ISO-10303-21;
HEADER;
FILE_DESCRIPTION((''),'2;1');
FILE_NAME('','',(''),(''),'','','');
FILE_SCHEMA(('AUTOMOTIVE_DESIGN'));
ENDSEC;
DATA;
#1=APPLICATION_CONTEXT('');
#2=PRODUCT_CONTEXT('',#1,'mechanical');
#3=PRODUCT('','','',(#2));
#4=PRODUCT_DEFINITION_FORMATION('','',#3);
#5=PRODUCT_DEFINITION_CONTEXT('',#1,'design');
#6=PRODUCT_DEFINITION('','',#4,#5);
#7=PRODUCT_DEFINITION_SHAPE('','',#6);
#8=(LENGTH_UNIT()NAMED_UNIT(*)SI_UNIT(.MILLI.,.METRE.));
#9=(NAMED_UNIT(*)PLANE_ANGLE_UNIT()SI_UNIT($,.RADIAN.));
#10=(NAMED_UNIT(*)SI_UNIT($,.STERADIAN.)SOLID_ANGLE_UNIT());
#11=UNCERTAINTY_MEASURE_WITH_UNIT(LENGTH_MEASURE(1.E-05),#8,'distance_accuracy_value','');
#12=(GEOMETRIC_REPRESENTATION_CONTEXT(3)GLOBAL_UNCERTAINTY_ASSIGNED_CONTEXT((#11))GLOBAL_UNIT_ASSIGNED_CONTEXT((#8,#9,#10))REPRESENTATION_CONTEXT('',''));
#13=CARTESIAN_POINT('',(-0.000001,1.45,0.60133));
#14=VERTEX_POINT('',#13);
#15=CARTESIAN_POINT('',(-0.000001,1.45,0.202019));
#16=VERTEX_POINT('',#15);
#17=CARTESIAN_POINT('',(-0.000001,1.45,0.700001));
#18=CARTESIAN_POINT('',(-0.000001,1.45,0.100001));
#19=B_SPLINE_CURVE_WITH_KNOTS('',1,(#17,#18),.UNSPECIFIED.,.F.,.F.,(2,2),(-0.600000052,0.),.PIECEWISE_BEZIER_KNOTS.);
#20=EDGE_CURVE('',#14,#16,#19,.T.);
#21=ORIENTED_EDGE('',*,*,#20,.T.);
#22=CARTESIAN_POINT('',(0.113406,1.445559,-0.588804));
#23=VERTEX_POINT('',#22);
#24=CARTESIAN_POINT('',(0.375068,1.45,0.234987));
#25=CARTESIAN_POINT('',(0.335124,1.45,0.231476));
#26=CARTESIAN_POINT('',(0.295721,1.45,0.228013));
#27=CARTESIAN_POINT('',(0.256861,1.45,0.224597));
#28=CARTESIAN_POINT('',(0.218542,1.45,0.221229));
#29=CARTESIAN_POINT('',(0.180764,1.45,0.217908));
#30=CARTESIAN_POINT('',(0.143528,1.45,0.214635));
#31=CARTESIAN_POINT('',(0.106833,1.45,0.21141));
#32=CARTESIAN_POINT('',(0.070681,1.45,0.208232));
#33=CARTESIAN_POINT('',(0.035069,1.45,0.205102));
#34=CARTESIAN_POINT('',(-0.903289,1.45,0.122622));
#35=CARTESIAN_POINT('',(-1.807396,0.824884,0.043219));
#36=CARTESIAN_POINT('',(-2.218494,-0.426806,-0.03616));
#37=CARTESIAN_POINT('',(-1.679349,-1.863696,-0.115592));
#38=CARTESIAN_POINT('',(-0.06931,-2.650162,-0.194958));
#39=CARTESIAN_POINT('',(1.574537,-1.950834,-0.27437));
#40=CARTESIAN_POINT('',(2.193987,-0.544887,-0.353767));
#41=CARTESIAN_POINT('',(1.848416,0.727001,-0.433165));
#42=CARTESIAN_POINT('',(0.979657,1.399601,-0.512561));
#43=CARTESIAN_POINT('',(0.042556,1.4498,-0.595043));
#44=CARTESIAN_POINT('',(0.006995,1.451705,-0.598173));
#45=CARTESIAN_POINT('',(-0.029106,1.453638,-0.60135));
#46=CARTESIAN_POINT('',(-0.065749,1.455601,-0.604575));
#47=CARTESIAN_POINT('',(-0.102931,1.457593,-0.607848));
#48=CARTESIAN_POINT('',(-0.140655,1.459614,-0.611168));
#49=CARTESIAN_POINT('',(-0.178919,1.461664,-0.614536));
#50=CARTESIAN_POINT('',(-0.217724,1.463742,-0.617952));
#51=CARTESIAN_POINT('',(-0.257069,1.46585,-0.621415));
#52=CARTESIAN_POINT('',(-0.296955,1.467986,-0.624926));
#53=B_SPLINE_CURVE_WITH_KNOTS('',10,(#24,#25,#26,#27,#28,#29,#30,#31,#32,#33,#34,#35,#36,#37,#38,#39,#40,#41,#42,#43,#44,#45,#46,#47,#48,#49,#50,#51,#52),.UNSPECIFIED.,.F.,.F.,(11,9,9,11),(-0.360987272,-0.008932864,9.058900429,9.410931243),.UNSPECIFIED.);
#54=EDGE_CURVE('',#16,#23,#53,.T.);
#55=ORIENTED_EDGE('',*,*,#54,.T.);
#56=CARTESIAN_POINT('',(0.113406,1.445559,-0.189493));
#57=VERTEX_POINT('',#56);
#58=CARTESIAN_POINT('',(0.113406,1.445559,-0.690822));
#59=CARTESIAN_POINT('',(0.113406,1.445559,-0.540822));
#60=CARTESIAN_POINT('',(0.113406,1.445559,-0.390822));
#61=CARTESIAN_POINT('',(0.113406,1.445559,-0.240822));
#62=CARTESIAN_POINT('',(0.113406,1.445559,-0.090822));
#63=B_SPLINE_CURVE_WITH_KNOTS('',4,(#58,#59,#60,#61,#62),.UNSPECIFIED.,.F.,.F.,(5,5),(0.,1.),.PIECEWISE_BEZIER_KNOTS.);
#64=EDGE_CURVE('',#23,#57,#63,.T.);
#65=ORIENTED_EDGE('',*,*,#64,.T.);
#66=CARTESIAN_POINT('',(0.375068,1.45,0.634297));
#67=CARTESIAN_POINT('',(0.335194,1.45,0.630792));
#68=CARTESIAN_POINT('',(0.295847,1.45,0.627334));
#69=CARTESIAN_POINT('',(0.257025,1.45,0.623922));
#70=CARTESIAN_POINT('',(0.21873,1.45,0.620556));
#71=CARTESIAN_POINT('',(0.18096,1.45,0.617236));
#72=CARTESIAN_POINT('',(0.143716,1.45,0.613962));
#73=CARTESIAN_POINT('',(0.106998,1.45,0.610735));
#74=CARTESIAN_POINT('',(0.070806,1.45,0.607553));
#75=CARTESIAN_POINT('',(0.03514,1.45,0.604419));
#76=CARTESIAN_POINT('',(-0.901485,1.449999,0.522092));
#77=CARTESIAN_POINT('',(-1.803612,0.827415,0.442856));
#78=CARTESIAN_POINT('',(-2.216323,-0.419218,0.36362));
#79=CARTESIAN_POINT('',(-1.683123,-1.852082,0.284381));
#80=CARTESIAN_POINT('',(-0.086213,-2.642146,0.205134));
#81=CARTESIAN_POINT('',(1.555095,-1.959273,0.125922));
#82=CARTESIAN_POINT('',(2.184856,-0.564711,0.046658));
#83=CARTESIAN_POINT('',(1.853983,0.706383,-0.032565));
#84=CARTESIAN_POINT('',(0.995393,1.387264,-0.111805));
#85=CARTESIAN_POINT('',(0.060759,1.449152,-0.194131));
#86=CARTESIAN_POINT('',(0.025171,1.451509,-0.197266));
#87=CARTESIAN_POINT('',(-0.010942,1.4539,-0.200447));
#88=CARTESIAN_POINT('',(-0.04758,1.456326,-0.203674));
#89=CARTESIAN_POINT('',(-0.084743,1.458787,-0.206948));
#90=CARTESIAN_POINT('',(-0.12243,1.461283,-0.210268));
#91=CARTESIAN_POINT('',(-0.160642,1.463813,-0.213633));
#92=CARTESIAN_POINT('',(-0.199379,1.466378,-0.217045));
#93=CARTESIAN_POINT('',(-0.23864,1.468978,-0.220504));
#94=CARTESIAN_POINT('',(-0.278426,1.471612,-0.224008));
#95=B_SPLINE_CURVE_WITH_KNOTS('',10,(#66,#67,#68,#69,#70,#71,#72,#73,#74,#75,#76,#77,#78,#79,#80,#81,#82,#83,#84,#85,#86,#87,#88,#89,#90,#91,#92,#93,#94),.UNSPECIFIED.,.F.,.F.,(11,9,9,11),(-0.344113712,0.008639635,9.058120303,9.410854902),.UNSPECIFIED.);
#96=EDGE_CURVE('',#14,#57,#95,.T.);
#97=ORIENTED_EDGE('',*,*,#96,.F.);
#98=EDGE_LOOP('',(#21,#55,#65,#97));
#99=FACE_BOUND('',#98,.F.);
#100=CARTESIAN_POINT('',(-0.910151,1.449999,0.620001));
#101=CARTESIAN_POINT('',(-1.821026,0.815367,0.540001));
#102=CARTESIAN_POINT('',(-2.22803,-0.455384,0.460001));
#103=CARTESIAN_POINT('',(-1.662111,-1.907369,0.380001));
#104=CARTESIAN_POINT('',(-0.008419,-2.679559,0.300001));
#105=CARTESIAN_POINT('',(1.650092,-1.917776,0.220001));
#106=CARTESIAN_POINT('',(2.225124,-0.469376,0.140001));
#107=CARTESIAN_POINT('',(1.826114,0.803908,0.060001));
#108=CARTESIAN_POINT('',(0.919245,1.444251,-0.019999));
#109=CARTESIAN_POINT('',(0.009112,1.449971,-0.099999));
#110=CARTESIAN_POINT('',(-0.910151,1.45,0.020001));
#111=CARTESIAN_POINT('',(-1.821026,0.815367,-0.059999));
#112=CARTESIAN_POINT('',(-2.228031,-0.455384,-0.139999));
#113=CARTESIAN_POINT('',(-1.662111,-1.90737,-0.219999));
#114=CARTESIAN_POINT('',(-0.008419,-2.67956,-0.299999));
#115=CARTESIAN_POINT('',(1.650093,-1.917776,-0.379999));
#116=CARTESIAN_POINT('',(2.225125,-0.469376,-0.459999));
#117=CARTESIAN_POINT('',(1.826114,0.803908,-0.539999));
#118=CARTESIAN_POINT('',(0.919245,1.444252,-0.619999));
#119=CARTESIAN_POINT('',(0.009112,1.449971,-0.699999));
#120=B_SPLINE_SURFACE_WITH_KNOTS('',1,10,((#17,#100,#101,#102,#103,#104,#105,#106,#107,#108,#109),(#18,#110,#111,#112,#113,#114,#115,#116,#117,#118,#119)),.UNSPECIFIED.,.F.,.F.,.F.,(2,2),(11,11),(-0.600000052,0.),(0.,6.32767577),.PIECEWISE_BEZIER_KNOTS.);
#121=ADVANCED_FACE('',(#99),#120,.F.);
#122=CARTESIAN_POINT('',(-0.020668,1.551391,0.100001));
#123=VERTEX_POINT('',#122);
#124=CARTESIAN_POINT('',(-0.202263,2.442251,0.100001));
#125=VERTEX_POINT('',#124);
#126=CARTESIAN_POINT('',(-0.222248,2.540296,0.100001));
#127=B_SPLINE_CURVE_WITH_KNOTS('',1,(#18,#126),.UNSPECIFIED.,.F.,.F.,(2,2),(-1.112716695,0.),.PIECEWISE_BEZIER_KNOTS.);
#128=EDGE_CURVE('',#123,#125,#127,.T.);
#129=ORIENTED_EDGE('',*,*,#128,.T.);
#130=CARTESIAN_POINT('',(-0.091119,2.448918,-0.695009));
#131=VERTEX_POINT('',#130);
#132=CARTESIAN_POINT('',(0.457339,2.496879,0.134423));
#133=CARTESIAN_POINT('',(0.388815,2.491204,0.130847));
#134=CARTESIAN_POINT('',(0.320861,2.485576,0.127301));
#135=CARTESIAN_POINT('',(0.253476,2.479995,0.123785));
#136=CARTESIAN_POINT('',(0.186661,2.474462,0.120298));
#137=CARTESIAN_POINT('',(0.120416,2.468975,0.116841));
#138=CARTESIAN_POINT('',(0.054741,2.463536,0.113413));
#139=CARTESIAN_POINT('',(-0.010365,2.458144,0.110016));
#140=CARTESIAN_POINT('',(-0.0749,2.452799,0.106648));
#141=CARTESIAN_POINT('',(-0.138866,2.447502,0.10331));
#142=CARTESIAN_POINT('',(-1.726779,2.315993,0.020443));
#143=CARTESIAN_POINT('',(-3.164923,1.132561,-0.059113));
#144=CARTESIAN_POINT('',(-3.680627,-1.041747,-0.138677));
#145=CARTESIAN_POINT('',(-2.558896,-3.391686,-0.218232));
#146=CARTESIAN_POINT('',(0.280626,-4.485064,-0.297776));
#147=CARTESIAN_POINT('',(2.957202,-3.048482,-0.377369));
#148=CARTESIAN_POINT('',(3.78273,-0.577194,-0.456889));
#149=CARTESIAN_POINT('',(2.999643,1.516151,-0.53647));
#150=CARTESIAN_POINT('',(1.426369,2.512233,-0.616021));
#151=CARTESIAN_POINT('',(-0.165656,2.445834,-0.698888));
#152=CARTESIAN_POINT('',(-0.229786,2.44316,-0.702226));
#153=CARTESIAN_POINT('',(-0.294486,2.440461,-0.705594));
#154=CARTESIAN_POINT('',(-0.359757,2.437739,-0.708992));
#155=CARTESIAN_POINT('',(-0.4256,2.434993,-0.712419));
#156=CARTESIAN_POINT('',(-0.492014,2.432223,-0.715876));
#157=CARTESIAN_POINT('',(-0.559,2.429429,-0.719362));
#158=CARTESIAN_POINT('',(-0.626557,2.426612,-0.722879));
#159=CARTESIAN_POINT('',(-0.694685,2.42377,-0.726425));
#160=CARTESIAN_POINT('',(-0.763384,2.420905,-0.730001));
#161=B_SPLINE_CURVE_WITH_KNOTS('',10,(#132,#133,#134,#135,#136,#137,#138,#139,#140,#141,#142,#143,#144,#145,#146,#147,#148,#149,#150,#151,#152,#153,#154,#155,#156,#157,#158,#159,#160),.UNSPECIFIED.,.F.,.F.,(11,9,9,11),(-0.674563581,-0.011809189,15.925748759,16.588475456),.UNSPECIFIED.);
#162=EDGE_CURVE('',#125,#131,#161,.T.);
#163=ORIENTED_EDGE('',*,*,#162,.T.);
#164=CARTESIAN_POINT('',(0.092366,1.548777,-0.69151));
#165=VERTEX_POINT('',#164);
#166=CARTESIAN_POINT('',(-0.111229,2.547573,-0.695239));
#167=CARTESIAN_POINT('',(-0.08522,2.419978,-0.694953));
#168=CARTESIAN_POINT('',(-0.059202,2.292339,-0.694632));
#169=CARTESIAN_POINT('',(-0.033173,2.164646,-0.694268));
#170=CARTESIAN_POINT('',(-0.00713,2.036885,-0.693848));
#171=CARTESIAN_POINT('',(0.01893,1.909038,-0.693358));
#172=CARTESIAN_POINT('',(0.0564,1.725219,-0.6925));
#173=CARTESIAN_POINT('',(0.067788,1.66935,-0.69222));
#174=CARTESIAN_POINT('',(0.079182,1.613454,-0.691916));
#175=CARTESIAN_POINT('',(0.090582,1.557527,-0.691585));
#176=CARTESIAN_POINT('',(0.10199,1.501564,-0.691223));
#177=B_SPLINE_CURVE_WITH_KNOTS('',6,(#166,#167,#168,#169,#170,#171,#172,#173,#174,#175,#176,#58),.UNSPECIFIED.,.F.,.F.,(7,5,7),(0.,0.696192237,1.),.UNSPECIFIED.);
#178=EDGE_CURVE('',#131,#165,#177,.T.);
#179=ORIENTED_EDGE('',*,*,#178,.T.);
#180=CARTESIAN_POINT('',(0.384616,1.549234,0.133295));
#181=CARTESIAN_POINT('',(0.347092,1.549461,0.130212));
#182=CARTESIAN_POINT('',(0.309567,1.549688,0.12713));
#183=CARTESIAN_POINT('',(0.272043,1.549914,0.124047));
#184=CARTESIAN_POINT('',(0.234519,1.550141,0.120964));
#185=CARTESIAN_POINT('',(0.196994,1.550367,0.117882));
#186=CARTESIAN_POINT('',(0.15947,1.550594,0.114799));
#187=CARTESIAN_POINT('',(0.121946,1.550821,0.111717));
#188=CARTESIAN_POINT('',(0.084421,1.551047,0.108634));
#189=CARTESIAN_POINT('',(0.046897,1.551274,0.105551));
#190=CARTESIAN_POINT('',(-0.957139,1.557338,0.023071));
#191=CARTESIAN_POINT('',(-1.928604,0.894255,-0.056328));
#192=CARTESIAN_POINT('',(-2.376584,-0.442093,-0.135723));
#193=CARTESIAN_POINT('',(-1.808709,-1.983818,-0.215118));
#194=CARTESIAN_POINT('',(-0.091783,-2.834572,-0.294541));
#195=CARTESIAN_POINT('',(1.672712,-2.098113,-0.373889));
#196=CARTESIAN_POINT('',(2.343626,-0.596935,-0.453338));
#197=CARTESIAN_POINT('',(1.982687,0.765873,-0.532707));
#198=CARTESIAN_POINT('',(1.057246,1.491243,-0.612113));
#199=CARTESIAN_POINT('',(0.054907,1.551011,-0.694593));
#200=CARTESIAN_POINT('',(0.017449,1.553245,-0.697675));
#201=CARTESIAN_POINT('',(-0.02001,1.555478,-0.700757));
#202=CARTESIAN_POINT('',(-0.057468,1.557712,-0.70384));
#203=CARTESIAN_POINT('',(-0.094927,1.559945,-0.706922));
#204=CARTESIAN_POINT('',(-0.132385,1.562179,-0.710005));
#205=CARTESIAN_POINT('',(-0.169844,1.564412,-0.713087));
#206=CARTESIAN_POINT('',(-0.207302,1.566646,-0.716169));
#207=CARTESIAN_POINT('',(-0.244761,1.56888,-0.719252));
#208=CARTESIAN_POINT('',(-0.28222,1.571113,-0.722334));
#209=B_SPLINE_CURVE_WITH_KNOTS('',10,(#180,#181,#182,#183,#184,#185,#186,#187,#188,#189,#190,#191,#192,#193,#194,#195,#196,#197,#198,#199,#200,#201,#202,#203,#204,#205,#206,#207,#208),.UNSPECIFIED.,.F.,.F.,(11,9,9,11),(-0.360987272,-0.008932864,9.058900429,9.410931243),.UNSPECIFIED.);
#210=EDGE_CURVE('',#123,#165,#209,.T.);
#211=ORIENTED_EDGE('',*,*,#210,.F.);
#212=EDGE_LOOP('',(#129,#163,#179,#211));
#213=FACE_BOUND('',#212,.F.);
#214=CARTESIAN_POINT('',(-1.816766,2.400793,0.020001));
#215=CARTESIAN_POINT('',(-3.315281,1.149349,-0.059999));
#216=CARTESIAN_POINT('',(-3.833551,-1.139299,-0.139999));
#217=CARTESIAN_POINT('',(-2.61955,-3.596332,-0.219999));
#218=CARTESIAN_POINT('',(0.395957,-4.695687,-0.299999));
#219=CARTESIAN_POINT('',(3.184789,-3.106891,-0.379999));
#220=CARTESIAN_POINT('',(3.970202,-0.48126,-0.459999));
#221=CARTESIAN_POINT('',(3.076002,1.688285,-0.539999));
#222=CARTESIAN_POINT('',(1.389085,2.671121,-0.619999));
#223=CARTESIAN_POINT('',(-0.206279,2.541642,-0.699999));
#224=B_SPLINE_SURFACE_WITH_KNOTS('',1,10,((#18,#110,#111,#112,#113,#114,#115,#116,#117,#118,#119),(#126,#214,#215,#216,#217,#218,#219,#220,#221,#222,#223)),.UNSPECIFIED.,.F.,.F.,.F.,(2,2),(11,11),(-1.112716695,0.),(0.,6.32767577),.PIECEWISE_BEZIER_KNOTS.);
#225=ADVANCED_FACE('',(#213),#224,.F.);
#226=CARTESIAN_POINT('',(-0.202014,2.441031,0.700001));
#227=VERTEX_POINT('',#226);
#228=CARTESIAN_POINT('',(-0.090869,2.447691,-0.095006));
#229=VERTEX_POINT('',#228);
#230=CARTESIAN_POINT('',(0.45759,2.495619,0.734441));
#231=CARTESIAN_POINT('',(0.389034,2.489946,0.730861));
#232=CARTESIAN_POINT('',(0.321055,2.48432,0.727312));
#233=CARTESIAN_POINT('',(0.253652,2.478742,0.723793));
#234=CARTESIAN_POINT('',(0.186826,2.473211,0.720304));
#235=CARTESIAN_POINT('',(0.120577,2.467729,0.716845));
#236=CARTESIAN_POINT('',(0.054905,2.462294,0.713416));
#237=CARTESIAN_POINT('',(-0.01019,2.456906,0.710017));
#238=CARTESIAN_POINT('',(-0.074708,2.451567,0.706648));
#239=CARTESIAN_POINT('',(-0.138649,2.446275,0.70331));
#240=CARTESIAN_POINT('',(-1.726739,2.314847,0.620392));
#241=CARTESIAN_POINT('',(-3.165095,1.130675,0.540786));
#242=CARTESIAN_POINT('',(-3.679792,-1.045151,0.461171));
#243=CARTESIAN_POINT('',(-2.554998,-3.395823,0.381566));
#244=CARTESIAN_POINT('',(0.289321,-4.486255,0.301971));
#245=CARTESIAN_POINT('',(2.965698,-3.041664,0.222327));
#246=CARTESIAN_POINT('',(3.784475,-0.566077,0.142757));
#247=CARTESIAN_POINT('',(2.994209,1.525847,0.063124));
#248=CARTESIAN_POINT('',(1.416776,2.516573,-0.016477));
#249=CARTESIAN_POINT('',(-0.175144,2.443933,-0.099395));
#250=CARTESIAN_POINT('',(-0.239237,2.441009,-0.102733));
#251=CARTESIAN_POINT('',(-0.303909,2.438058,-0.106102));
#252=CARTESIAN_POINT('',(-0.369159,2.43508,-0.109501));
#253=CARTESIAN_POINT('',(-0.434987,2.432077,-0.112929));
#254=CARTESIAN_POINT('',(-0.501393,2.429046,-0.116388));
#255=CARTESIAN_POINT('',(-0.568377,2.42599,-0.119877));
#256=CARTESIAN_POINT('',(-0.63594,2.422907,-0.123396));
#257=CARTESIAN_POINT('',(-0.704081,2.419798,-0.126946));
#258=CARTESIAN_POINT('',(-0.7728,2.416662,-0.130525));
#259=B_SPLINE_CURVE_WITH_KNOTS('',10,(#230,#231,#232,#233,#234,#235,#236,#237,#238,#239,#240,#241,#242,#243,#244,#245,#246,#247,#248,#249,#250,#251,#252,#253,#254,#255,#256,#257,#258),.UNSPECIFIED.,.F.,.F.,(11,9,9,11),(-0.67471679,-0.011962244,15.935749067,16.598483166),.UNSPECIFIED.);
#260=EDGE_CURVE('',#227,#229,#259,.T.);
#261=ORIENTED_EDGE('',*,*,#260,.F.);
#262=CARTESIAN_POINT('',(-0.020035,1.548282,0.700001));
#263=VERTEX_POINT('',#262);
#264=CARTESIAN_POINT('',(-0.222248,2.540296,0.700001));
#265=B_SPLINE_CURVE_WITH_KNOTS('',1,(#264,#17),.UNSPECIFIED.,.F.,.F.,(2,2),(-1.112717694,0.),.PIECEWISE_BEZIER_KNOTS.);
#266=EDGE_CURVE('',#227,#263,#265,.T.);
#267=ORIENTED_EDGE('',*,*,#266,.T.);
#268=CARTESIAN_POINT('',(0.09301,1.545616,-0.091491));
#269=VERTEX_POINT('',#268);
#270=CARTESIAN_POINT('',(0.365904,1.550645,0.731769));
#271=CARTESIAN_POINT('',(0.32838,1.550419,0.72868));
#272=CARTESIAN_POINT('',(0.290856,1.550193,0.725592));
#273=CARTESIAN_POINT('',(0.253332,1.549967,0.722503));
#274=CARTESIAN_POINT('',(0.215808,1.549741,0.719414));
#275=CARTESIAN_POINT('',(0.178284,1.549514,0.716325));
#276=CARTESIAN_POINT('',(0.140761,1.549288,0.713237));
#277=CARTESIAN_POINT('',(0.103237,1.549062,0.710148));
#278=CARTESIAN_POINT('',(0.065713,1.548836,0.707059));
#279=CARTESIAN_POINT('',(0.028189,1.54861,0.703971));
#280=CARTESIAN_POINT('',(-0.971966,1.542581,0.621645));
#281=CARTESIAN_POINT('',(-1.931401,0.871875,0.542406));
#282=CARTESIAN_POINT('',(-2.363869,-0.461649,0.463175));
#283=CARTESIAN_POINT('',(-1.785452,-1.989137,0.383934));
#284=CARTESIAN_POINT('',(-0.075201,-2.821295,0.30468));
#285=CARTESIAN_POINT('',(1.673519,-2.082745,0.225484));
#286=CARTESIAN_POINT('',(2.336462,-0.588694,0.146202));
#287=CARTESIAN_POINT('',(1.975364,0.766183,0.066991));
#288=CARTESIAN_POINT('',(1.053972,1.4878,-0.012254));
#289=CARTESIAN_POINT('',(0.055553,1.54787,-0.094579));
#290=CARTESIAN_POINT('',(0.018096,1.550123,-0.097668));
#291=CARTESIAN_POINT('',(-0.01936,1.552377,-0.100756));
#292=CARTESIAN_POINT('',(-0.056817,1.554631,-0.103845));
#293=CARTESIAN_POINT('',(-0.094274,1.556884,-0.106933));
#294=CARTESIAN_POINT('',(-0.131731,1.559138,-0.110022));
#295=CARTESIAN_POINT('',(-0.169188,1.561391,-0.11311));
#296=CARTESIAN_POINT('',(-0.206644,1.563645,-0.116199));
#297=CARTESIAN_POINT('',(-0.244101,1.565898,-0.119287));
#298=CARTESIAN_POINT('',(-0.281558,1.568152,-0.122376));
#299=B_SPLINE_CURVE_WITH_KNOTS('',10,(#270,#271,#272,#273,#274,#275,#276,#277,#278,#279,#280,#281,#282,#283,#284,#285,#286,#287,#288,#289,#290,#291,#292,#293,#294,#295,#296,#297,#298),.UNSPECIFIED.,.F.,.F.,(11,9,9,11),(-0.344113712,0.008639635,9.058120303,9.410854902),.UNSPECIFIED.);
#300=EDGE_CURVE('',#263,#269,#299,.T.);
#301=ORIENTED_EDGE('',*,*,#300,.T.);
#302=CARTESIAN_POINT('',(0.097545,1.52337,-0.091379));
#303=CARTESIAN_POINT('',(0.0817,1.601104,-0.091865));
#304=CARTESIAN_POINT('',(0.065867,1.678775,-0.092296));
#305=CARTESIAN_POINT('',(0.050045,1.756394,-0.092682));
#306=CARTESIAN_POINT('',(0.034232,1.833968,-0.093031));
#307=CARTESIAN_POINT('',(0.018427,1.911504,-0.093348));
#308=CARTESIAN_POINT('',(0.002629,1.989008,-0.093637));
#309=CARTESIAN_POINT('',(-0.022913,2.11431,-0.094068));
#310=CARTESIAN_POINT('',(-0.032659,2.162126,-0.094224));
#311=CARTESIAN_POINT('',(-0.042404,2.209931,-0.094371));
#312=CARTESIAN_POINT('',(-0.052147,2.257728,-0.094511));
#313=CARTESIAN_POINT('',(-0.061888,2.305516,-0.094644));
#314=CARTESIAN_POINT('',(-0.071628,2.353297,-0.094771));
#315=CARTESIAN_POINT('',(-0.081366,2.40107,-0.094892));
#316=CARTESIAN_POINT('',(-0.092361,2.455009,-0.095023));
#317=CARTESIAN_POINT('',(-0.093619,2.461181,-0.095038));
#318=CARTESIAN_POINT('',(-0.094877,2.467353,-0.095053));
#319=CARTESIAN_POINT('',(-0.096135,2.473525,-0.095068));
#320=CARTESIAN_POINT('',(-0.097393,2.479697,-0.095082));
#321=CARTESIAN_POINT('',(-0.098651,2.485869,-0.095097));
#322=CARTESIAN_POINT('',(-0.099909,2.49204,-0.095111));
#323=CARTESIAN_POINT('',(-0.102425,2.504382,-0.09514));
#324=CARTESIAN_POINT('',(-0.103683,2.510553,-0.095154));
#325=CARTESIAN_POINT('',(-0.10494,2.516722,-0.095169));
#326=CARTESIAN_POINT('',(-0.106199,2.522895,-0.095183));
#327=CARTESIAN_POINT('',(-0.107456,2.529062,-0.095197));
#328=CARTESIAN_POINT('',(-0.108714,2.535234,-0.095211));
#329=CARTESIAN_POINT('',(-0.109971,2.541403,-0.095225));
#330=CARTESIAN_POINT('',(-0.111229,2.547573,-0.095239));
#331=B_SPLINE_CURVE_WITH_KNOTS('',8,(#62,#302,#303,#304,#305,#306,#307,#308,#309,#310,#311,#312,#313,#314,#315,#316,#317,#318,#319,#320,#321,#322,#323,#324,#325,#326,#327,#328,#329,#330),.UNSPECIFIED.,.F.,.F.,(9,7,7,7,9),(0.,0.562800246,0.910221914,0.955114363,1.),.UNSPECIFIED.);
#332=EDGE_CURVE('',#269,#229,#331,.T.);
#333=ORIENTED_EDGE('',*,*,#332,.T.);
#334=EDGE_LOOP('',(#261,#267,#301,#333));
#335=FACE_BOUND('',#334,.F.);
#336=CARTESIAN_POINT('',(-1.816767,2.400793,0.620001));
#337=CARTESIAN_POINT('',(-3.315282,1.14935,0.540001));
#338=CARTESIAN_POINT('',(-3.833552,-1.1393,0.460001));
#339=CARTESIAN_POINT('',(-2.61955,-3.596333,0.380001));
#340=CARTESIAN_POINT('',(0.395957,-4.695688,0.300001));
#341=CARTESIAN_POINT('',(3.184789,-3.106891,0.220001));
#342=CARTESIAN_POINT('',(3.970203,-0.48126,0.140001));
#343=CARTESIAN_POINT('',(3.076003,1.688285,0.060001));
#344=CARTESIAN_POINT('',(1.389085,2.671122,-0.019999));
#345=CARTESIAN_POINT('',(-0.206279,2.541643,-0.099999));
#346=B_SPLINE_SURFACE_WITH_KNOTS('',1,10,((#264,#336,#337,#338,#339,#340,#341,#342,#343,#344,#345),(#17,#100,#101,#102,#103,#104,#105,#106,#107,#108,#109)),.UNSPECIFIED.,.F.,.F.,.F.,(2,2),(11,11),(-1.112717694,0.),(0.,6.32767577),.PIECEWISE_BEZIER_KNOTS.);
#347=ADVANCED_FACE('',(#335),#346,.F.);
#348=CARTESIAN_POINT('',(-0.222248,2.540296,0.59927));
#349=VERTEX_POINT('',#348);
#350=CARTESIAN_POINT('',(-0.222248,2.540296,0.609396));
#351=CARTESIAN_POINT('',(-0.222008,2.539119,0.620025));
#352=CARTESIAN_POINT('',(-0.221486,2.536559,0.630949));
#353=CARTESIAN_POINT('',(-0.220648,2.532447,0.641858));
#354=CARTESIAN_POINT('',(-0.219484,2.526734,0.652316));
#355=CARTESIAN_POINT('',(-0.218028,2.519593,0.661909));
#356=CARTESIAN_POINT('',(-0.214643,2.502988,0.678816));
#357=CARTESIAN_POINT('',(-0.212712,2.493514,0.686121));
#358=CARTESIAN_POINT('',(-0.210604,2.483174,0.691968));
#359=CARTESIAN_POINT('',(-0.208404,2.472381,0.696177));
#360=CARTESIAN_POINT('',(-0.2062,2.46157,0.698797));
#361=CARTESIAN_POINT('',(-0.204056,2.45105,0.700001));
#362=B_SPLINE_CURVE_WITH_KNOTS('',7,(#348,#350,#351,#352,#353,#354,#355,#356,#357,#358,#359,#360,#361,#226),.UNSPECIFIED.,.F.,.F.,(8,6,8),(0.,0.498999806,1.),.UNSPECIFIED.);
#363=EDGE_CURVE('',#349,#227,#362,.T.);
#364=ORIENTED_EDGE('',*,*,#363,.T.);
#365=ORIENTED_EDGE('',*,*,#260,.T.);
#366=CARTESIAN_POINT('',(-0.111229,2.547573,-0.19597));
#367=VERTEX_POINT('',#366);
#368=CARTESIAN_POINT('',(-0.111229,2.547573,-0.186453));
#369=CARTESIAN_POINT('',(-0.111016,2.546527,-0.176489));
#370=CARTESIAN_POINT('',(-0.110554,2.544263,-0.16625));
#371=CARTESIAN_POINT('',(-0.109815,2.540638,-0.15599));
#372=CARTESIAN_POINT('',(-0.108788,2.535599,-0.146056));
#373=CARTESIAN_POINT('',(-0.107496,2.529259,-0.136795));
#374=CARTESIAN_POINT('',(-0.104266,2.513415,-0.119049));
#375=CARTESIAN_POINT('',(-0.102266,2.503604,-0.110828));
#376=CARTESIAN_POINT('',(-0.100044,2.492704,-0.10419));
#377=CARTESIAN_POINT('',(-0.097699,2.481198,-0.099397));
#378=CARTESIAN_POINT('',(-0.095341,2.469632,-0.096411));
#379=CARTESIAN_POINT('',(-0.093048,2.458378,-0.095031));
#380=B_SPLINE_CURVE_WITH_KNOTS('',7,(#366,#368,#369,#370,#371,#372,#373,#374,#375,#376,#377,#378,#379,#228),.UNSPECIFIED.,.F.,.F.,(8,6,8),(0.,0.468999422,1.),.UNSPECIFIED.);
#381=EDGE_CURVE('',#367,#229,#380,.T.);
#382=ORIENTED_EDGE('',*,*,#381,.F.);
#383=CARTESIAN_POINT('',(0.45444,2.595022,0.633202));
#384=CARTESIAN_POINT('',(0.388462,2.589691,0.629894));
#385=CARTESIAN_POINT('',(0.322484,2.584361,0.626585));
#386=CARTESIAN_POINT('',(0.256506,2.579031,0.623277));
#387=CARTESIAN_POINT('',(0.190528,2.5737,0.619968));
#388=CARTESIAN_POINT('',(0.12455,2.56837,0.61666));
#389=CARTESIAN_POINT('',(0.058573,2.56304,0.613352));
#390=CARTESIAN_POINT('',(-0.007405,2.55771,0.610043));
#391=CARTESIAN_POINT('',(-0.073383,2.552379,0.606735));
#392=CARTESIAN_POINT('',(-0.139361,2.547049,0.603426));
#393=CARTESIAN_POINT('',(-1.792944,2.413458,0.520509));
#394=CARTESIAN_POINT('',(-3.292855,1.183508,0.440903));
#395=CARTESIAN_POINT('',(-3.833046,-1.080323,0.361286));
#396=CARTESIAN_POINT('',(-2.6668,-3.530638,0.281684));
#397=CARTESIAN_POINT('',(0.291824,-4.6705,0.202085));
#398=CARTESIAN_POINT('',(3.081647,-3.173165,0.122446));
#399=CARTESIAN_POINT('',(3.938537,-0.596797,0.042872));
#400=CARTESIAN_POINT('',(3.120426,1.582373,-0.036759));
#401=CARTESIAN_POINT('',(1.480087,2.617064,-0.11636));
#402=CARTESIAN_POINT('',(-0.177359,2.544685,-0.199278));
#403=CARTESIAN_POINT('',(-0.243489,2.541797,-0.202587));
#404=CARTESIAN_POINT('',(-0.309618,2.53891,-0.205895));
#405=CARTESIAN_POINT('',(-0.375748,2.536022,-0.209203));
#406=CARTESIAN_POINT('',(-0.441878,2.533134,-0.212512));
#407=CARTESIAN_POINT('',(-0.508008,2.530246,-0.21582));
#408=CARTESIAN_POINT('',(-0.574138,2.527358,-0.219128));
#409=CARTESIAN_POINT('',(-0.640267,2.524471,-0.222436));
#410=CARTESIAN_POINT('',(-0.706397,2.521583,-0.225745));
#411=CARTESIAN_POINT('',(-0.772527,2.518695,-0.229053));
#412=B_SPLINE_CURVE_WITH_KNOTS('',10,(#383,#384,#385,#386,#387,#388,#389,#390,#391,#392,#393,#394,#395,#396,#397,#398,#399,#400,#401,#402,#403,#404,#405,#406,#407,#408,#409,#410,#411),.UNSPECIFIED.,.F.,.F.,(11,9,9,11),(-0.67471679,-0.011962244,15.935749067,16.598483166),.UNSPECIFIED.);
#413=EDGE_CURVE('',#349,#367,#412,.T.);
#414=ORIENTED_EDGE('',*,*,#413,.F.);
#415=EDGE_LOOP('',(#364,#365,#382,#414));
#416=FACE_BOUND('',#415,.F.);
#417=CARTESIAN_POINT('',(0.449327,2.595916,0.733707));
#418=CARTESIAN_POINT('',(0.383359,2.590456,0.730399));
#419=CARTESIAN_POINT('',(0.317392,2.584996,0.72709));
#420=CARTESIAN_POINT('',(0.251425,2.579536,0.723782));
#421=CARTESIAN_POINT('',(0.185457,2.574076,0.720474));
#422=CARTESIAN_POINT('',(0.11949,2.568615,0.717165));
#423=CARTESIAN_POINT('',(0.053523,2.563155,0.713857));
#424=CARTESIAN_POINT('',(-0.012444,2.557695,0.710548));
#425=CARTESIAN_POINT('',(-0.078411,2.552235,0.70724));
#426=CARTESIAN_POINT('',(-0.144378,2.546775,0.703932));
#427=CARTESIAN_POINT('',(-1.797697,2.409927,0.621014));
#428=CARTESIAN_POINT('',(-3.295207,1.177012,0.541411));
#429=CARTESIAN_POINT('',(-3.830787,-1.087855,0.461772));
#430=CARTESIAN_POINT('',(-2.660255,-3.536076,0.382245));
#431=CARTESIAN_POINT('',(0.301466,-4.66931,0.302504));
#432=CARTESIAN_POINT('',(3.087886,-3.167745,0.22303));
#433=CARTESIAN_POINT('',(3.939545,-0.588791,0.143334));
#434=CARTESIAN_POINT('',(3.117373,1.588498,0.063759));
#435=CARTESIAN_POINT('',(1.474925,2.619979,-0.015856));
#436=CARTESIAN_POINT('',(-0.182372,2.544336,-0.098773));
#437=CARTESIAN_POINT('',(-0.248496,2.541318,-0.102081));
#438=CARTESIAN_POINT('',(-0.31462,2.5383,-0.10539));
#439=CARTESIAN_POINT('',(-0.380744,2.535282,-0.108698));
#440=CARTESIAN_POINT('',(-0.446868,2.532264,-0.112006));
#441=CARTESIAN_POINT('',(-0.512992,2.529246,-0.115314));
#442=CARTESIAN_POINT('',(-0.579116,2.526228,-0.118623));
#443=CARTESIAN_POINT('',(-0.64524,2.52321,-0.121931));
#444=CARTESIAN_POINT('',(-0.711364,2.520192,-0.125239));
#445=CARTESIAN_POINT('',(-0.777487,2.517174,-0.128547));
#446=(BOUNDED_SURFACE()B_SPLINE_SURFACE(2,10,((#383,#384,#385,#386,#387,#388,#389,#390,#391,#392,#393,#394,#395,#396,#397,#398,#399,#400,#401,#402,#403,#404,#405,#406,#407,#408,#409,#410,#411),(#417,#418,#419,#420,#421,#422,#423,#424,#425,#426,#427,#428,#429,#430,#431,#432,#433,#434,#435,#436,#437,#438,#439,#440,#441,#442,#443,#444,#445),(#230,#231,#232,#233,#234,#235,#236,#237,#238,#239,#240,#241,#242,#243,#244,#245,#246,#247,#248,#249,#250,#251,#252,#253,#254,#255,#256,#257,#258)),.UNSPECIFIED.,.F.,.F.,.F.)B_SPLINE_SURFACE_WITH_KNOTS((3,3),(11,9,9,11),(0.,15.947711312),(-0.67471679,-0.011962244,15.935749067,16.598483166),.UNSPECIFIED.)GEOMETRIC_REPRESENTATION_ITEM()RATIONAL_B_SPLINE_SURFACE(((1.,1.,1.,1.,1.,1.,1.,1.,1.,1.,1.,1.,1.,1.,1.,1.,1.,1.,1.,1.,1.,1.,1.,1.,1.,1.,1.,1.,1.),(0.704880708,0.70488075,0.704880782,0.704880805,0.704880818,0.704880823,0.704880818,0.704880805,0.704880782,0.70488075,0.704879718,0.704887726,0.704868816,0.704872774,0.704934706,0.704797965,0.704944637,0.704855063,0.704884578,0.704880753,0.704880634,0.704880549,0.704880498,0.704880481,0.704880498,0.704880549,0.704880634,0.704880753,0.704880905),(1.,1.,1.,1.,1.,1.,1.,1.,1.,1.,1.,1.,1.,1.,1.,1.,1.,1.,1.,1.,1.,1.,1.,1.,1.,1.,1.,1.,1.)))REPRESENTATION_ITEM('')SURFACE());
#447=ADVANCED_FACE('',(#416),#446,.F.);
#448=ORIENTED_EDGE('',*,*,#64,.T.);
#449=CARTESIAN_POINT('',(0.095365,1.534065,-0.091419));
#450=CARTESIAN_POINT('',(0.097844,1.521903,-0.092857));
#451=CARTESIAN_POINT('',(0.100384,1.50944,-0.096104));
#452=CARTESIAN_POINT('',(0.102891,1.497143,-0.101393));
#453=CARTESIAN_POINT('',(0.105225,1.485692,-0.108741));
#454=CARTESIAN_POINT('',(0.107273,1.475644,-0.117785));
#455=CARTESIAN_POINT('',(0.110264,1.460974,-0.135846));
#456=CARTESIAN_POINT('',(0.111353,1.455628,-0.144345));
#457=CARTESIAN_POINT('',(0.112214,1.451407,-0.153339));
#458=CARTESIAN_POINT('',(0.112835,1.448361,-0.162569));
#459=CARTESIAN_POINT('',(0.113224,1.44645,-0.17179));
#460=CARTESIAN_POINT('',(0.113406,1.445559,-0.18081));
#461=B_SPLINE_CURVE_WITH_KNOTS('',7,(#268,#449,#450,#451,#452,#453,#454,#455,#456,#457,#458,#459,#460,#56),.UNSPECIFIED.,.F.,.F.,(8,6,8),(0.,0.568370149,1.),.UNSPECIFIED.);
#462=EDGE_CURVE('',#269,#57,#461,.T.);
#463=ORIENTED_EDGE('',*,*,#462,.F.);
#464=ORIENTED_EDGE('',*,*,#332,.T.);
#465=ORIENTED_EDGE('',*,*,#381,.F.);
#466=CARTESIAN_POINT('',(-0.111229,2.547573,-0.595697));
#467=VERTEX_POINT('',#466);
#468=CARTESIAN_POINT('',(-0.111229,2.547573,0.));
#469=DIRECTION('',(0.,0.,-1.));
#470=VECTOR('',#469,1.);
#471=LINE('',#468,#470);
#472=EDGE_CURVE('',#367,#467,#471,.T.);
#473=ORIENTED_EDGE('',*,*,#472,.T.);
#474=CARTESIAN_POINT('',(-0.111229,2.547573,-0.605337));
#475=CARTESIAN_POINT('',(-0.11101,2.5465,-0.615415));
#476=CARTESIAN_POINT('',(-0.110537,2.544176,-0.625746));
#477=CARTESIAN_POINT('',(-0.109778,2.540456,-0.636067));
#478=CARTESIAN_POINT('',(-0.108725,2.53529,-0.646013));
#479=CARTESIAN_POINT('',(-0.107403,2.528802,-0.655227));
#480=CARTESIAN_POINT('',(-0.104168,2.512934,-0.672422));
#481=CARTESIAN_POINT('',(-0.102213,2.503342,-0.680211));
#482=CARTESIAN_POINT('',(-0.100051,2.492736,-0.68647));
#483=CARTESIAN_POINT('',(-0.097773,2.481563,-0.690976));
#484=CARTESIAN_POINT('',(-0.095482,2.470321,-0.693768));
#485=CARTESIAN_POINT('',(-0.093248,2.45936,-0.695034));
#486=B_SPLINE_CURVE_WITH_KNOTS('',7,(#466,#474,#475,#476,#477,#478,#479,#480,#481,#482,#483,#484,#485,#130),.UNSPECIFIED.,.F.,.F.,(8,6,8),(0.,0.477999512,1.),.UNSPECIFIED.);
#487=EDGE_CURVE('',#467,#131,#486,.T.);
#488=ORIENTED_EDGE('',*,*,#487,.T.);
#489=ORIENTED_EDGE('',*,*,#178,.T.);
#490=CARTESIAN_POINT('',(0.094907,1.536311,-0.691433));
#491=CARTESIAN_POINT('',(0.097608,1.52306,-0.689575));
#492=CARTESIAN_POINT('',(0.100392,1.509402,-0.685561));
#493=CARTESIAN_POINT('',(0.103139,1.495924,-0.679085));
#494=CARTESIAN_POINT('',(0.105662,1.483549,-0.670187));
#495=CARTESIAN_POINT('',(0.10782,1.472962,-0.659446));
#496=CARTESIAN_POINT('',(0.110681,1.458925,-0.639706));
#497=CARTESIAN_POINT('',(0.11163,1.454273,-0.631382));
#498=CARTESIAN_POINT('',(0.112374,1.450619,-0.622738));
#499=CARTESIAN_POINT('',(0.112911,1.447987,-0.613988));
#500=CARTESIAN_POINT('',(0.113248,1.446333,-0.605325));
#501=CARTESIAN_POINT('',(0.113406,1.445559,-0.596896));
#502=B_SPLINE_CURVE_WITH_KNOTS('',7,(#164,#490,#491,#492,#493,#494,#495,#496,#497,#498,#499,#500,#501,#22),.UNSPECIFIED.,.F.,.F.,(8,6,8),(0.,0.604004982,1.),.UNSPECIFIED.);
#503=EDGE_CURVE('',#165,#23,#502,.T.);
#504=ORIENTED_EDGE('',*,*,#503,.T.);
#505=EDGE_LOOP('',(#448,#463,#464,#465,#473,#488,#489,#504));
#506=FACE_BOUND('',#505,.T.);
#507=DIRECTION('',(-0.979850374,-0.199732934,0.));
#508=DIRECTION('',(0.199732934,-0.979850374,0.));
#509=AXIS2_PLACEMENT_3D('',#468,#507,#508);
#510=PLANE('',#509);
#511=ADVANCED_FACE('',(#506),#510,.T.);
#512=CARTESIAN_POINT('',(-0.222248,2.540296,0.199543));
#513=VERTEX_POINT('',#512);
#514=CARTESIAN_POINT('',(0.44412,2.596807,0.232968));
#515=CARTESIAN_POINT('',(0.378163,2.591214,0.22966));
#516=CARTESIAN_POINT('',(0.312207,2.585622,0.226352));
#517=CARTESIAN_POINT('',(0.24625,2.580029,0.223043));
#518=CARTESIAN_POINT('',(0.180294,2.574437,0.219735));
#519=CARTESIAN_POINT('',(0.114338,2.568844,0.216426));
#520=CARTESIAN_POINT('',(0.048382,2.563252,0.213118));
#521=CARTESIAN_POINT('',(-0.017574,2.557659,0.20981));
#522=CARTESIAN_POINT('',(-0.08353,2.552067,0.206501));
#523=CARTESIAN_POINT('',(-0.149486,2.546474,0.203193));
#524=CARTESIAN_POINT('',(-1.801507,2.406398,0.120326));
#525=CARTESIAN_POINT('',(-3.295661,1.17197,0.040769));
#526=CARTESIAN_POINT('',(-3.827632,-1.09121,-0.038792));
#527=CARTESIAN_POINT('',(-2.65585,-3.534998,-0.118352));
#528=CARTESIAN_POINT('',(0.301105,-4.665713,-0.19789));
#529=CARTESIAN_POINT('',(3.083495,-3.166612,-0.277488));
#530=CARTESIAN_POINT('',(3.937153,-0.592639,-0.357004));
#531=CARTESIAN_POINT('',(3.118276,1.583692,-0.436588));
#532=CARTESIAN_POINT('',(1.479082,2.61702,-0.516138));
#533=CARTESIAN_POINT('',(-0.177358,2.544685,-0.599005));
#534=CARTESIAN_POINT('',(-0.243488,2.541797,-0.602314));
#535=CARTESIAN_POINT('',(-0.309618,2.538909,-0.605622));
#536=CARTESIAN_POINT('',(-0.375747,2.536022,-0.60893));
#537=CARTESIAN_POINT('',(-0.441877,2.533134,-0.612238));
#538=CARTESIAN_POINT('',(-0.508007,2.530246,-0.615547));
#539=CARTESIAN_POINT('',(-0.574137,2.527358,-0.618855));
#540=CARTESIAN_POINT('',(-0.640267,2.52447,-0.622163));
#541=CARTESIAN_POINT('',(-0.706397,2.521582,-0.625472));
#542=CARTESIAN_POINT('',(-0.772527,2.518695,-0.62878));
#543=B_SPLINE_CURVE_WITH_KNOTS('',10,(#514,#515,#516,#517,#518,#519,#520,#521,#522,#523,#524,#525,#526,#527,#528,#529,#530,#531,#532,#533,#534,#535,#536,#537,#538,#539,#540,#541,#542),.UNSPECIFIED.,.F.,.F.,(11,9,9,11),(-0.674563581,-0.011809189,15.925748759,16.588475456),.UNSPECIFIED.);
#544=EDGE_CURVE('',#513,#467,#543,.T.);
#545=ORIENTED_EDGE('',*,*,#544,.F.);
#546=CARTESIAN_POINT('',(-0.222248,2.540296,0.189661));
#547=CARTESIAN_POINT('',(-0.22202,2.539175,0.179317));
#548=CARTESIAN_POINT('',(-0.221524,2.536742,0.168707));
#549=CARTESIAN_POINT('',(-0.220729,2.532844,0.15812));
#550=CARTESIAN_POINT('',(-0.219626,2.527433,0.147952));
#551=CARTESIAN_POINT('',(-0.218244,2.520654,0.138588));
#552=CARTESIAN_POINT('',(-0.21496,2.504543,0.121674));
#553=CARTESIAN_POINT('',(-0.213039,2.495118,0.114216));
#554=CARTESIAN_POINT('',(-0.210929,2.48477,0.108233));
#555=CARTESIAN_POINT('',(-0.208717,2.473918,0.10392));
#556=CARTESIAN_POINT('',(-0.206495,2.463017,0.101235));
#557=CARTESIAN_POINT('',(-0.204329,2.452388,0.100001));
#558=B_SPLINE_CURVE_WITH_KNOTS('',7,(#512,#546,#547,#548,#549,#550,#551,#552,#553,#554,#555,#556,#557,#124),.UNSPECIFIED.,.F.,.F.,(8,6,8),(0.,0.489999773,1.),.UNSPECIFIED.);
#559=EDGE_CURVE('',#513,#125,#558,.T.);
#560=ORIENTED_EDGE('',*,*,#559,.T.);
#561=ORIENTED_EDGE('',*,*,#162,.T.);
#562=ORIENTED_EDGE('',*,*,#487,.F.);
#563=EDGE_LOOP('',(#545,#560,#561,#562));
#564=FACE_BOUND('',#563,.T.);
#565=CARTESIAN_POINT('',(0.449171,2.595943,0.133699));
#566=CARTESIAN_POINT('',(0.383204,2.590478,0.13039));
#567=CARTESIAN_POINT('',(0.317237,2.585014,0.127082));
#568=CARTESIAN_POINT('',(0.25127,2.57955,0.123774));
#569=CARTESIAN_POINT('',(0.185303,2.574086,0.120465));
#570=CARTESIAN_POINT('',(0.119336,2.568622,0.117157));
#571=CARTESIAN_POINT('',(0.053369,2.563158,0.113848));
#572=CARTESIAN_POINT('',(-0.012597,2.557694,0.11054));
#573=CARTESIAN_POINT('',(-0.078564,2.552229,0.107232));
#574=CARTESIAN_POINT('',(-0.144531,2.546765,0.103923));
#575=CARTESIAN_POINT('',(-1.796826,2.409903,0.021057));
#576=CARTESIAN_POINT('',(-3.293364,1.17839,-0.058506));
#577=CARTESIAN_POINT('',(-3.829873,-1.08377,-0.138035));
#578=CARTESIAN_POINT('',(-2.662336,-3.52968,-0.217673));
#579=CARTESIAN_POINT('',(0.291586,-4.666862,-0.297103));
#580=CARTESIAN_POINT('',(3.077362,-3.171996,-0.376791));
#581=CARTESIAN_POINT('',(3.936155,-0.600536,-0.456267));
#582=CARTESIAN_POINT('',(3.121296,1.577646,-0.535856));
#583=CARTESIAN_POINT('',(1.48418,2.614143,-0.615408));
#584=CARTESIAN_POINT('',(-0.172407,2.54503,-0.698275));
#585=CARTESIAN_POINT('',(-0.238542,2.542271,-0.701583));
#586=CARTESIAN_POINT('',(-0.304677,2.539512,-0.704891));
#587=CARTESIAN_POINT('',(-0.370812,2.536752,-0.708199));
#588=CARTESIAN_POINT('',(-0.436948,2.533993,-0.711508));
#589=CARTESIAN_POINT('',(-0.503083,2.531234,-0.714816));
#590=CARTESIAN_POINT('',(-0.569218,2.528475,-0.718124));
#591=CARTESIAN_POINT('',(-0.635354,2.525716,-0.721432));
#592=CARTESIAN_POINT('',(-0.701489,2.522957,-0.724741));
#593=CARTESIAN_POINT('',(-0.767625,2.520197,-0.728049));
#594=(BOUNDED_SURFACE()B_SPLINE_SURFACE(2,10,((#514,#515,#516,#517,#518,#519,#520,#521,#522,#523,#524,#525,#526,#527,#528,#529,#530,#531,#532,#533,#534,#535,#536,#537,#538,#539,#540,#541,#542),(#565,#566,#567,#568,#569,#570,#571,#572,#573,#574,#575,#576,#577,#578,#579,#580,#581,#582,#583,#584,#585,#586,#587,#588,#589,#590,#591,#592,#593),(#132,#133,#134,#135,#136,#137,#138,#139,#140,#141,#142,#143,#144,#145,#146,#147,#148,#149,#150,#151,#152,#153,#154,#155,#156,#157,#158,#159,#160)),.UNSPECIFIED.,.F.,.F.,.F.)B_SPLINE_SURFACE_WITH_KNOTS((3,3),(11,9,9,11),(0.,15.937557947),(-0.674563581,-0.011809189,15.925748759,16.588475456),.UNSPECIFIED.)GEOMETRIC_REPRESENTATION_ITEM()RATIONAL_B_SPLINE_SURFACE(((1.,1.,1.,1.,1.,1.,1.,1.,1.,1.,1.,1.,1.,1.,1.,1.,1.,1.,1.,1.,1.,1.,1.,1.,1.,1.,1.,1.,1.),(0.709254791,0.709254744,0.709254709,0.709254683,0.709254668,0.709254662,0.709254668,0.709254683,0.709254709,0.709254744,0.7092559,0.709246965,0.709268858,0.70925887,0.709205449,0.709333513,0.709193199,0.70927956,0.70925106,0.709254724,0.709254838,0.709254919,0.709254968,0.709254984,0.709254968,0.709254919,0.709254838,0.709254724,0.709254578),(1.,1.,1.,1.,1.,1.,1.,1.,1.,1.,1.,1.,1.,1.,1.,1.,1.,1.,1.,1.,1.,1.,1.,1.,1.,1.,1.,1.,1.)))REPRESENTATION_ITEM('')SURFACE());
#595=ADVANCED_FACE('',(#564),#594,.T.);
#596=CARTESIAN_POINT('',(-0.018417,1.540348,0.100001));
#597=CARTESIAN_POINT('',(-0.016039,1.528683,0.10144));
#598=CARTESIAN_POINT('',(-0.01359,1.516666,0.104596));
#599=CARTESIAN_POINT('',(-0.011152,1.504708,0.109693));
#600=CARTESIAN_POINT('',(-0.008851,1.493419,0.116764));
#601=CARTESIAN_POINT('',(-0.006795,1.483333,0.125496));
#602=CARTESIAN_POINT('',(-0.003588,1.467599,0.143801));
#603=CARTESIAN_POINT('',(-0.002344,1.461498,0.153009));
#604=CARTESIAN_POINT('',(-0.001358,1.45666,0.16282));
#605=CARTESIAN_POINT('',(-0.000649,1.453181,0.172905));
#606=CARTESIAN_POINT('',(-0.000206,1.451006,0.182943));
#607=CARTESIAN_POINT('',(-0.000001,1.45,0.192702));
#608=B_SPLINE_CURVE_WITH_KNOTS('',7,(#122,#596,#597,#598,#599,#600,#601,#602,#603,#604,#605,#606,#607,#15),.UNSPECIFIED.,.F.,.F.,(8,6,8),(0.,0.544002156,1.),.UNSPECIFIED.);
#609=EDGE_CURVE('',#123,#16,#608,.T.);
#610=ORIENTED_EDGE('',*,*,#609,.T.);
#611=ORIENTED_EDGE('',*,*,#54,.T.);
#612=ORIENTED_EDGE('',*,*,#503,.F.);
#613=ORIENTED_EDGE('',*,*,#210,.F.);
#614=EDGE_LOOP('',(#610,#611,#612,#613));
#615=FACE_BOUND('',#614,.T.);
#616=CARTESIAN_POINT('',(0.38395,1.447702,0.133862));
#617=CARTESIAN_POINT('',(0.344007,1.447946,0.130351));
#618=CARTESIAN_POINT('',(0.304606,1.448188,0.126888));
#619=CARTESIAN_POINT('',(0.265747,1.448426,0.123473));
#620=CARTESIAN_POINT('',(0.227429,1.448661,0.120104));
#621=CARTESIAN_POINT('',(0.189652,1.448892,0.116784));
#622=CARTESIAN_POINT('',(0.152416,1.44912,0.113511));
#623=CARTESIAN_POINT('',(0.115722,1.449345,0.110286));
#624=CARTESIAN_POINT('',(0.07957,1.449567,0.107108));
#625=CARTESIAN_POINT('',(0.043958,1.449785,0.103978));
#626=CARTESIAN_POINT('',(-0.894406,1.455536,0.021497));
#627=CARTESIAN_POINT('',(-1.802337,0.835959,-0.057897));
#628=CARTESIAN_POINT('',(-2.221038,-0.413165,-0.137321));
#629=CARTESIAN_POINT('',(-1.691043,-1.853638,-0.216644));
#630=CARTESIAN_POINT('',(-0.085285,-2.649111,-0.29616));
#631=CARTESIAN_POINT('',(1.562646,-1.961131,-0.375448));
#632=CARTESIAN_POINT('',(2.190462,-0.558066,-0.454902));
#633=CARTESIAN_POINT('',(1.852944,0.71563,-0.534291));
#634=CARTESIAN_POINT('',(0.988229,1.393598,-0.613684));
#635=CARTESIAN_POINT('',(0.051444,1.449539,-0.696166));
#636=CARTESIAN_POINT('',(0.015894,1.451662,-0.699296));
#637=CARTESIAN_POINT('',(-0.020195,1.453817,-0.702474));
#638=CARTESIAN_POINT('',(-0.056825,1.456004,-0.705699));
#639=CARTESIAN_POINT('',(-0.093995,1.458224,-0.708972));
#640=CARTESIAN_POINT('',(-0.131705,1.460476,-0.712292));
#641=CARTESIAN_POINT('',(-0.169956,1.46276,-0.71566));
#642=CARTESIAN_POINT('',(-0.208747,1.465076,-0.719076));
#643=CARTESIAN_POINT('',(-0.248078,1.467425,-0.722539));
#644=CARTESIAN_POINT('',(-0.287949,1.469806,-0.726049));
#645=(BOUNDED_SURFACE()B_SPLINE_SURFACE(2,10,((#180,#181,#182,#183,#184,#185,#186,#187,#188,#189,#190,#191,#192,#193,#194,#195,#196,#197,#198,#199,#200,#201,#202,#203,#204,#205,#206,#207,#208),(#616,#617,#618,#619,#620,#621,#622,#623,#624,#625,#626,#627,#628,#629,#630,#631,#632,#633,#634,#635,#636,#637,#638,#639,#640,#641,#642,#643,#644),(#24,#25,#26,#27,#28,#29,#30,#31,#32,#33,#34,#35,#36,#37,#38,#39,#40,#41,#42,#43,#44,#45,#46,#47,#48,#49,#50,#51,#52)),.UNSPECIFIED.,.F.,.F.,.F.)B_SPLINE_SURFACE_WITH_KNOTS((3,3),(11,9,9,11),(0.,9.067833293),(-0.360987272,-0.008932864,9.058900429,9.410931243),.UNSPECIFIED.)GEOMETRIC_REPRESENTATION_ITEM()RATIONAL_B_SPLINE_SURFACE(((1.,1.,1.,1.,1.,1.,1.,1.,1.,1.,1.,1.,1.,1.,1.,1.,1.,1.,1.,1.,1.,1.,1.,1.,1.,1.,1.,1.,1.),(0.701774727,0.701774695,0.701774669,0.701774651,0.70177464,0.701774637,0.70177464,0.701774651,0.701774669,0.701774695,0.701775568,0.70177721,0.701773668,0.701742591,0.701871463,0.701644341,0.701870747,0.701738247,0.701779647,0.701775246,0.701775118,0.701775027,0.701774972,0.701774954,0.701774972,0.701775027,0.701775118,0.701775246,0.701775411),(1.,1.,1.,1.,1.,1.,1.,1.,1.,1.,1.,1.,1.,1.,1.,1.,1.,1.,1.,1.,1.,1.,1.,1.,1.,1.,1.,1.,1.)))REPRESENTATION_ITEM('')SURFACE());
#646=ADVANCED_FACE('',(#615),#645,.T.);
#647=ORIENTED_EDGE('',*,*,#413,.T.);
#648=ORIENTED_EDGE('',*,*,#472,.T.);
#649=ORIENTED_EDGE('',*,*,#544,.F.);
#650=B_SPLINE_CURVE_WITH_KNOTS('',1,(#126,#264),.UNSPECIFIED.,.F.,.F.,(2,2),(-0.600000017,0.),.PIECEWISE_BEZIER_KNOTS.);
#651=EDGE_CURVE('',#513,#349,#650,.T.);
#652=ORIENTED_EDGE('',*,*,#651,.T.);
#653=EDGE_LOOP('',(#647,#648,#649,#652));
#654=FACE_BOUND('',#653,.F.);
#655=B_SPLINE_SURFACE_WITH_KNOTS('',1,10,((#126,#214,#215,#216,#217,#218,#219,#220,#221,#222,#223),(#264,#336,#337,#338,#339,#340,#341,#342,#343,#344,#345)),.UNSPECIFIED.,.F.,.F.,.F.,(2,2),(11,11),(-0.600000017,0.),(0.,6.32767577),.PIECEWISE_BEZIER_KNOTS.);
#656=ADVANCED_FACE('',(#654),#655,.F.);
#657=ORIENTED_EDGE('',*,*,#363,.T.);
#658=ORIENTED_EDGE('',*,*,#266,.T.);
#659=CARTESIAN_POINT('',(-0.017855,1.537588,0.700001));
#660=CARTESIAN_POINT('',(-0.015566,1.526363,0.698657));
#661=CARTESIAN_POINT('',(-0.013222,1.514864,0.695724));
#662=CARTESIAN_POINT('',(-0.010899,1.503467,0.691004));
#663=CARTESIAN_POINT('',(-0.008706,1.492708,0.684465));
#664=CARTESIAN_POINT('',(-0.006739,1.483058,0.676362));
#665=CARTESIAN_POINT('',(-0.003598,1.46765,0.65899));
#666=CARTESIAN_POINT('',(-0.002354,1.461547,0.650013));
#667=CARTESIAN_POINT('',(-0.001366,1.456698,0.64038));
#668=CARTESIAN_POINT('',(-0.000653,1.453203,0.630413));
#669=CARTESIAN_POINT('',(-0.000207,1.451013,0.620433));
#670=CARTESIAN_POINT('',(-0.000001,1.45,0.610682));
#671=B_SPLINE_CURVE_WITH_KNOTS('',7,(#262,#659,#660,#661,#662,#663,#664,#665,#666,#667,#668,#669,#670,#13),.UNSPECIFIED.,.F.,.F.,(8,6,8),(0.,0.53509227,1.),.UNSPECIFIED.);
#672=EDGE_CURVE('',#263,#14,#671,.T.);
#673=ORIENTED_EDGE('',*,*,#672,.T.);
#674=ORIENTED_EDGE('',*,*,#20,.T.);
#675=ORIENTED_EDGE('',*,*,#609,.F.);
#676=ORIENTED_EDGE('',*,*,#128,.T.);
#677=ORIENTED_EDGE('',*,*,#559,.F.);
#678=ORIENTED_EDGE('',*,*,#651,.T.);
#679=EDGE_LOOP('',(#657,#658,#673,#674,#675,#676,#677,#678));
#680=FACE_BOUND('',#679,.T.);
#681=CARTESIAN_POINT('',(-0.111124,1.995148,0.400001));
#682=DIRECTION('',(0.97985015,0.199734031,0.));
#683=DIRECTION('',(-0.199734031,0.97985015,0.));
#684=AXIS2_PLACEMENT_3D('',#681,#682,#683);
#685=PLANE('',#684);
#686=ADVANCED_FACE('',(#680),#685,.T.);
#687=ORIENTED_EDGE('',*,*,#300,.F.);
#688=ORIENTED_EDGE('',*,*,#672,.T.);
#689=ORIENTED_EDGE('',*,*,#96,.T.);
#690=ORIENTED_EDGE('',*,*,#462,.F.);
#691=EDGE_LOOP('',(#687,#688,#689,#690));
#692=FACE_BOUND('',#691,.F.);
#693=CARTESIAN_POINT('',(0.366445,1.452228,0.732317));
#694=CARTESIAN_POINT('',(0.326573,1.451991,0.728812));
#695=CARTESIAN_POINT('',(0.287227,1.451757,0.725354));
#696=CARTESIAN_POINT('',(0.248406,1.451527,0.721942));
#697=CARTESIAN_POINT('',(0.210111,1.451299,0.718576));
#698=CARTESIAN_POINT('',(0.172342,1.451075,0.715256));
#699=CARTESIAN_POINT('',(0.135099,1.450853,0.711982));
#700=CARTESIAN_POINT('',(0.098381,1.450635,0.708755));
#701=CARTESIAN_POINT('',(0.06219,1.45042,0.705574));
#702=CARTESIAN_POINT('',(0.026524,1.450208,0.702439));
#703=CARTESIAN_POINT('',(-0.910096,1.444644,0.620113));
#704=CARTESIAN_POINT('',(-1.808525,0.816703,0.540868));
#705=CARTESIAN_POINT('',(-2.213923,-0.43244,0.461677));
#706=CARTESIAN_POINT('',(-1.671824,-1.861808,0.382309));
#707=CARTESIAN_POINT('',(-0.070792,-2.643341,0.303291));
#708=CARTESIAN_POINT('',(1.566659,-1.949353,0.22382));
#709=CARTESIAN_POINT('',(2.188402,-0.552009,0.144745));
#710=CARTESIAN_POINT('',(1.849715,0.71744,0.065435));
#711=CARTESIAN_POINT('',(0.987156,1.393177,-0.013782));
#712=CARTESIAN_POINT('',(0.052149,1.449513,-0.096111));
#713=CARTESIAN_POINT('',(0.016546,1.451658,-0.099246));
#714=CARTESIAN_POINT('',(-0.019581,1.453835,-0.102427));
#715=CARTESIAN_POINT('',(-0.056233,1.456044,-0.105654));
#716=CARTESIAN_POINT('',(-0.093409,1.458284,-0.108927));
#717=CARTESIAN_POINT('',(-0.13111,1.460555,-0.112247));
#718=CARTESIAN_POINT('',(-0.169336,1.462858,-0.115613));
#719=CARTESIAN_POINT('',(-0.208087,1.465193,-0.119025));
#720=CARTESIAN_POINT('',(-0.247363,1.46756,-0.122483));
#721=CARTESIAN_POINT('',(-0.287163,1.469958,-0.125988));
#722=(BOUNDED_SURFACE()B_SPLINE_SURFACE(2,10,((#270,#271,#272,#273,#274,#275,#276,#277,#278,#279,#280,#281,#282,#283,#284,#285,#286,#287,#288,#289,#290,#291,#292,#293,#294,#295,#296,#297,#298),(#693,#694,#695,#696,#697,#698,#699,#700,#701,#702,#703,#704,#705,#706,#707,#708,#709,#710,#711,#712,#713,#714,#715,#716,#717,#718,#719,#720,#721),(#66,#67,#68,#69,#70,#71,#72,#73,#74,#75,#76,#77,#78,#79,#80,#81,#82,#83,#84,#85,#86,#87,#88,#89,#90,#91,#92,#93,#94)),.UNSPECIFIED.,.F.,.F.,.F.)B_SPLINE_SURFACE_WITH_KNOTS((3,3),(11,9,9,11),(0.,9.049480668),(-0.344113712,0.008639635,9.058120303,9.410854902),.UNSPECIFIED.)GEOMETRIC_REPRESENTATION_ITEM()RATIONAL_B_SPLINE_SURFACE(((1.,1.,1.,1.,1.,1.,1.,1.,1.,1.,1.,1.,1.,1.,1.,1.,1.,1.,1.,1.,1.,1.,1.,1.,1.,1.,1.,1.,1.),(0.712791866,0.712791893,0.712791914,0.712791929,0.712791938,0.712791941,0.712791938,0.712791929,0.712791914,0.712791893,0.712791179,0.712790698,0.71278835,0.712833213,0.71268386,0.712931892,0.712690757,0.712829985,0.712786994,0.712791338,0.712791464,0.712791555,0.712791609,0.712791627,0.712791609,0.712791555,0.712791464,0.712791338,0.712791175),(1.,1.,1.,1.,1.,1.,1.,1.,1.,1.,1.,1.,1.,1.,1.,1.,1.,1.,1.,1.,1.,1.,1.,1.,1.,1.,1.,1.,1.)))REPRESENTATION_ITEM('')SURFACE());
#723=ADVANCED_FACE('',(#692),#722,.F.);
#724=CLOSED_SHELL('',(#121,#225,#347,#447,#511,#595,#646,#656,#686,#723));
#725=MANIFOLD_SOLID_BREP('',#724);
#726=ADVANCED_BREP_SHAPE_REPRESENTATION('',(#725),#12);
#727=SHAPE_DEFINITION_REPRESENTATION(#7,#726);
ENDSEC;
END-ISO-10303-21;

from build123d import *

# Parameters (mm, degrees)
SWEEP1_PITCH       = 0.800801
SWEEP1_HEIGHT      = 0.8
SWEEP1_RADIUS      = 2.55
SWEEP1_START_ANGLE = 85
CUT_EXTRUDE1_DEPTH = 1.7
FILLET1_R          = 0.1


with BuildPart() as part:
    # Sweep1: sweep along a helix
    with BuildLine() as sweep1_path:
        add(Helix(SWEEP1_PITCH, SWEEP1_HEIGHT, SWEEP1_RADIUS, center=(0, 0, 0.4), direction=(0, 0, -1), lefthand=True, mode=Mode.PRIVATE).rotate(Axis((0, 0, 0.4), (0, 0, -1)), SWEEP1_START_ANGLE))
    # Sketch4 → Sweep1 (sweep)
    with BuildSketch(Plane(origin=(0.312685, -0.083965, 0.005065), x_dir=(0.006985, -0.034268, -0.999388), z_dir=(0.97985, 0.199734, 0))):
        Polygon((-0.788176, 2.652285), (-0.188543, 2.673268), (-0.149628, 1.561232), (-0.749261, 1.540248), align=None)
    sweep(path=sweep1_path.line, is_frenet=True)

    # Sketch5 → Cut-Extrude1 (cut, through all)
    with BuildSketch(Plane.XY):
        with BuildLine():
            Line((0, 1.45), (-0.222247, 2.540296))
            ThreePointArc((-0.222247, 2.540296), (-0.166778, 2.54454), (-0.111229, 2.547573))
            Line((-0.111229, 2.547573), (0.113406, 1.445558))
            ThreePointArc((0.113406, 1.445558), (0.056747, 1.448889), (0, 1.45))
        make_face()
    extrude(amount=-CUT_EXTRUDE1_DEPTH, mode=Mode.SUBTRACT)

    # Fillet1
    fillet1_edges = [part.edges().sort_by_distance(p)[0] for p in [
        (0.166778, -2.544538, 0.30238),
        (0.166778, -2.544538, -0.29762),
        (-0.056747, -1.448888, 0.304589),
        (-0.056747, -1.448888, -0.295411),
    ]]
    fillet(fillet1_edges, radius=FILLET1_R)


solid = part.part
